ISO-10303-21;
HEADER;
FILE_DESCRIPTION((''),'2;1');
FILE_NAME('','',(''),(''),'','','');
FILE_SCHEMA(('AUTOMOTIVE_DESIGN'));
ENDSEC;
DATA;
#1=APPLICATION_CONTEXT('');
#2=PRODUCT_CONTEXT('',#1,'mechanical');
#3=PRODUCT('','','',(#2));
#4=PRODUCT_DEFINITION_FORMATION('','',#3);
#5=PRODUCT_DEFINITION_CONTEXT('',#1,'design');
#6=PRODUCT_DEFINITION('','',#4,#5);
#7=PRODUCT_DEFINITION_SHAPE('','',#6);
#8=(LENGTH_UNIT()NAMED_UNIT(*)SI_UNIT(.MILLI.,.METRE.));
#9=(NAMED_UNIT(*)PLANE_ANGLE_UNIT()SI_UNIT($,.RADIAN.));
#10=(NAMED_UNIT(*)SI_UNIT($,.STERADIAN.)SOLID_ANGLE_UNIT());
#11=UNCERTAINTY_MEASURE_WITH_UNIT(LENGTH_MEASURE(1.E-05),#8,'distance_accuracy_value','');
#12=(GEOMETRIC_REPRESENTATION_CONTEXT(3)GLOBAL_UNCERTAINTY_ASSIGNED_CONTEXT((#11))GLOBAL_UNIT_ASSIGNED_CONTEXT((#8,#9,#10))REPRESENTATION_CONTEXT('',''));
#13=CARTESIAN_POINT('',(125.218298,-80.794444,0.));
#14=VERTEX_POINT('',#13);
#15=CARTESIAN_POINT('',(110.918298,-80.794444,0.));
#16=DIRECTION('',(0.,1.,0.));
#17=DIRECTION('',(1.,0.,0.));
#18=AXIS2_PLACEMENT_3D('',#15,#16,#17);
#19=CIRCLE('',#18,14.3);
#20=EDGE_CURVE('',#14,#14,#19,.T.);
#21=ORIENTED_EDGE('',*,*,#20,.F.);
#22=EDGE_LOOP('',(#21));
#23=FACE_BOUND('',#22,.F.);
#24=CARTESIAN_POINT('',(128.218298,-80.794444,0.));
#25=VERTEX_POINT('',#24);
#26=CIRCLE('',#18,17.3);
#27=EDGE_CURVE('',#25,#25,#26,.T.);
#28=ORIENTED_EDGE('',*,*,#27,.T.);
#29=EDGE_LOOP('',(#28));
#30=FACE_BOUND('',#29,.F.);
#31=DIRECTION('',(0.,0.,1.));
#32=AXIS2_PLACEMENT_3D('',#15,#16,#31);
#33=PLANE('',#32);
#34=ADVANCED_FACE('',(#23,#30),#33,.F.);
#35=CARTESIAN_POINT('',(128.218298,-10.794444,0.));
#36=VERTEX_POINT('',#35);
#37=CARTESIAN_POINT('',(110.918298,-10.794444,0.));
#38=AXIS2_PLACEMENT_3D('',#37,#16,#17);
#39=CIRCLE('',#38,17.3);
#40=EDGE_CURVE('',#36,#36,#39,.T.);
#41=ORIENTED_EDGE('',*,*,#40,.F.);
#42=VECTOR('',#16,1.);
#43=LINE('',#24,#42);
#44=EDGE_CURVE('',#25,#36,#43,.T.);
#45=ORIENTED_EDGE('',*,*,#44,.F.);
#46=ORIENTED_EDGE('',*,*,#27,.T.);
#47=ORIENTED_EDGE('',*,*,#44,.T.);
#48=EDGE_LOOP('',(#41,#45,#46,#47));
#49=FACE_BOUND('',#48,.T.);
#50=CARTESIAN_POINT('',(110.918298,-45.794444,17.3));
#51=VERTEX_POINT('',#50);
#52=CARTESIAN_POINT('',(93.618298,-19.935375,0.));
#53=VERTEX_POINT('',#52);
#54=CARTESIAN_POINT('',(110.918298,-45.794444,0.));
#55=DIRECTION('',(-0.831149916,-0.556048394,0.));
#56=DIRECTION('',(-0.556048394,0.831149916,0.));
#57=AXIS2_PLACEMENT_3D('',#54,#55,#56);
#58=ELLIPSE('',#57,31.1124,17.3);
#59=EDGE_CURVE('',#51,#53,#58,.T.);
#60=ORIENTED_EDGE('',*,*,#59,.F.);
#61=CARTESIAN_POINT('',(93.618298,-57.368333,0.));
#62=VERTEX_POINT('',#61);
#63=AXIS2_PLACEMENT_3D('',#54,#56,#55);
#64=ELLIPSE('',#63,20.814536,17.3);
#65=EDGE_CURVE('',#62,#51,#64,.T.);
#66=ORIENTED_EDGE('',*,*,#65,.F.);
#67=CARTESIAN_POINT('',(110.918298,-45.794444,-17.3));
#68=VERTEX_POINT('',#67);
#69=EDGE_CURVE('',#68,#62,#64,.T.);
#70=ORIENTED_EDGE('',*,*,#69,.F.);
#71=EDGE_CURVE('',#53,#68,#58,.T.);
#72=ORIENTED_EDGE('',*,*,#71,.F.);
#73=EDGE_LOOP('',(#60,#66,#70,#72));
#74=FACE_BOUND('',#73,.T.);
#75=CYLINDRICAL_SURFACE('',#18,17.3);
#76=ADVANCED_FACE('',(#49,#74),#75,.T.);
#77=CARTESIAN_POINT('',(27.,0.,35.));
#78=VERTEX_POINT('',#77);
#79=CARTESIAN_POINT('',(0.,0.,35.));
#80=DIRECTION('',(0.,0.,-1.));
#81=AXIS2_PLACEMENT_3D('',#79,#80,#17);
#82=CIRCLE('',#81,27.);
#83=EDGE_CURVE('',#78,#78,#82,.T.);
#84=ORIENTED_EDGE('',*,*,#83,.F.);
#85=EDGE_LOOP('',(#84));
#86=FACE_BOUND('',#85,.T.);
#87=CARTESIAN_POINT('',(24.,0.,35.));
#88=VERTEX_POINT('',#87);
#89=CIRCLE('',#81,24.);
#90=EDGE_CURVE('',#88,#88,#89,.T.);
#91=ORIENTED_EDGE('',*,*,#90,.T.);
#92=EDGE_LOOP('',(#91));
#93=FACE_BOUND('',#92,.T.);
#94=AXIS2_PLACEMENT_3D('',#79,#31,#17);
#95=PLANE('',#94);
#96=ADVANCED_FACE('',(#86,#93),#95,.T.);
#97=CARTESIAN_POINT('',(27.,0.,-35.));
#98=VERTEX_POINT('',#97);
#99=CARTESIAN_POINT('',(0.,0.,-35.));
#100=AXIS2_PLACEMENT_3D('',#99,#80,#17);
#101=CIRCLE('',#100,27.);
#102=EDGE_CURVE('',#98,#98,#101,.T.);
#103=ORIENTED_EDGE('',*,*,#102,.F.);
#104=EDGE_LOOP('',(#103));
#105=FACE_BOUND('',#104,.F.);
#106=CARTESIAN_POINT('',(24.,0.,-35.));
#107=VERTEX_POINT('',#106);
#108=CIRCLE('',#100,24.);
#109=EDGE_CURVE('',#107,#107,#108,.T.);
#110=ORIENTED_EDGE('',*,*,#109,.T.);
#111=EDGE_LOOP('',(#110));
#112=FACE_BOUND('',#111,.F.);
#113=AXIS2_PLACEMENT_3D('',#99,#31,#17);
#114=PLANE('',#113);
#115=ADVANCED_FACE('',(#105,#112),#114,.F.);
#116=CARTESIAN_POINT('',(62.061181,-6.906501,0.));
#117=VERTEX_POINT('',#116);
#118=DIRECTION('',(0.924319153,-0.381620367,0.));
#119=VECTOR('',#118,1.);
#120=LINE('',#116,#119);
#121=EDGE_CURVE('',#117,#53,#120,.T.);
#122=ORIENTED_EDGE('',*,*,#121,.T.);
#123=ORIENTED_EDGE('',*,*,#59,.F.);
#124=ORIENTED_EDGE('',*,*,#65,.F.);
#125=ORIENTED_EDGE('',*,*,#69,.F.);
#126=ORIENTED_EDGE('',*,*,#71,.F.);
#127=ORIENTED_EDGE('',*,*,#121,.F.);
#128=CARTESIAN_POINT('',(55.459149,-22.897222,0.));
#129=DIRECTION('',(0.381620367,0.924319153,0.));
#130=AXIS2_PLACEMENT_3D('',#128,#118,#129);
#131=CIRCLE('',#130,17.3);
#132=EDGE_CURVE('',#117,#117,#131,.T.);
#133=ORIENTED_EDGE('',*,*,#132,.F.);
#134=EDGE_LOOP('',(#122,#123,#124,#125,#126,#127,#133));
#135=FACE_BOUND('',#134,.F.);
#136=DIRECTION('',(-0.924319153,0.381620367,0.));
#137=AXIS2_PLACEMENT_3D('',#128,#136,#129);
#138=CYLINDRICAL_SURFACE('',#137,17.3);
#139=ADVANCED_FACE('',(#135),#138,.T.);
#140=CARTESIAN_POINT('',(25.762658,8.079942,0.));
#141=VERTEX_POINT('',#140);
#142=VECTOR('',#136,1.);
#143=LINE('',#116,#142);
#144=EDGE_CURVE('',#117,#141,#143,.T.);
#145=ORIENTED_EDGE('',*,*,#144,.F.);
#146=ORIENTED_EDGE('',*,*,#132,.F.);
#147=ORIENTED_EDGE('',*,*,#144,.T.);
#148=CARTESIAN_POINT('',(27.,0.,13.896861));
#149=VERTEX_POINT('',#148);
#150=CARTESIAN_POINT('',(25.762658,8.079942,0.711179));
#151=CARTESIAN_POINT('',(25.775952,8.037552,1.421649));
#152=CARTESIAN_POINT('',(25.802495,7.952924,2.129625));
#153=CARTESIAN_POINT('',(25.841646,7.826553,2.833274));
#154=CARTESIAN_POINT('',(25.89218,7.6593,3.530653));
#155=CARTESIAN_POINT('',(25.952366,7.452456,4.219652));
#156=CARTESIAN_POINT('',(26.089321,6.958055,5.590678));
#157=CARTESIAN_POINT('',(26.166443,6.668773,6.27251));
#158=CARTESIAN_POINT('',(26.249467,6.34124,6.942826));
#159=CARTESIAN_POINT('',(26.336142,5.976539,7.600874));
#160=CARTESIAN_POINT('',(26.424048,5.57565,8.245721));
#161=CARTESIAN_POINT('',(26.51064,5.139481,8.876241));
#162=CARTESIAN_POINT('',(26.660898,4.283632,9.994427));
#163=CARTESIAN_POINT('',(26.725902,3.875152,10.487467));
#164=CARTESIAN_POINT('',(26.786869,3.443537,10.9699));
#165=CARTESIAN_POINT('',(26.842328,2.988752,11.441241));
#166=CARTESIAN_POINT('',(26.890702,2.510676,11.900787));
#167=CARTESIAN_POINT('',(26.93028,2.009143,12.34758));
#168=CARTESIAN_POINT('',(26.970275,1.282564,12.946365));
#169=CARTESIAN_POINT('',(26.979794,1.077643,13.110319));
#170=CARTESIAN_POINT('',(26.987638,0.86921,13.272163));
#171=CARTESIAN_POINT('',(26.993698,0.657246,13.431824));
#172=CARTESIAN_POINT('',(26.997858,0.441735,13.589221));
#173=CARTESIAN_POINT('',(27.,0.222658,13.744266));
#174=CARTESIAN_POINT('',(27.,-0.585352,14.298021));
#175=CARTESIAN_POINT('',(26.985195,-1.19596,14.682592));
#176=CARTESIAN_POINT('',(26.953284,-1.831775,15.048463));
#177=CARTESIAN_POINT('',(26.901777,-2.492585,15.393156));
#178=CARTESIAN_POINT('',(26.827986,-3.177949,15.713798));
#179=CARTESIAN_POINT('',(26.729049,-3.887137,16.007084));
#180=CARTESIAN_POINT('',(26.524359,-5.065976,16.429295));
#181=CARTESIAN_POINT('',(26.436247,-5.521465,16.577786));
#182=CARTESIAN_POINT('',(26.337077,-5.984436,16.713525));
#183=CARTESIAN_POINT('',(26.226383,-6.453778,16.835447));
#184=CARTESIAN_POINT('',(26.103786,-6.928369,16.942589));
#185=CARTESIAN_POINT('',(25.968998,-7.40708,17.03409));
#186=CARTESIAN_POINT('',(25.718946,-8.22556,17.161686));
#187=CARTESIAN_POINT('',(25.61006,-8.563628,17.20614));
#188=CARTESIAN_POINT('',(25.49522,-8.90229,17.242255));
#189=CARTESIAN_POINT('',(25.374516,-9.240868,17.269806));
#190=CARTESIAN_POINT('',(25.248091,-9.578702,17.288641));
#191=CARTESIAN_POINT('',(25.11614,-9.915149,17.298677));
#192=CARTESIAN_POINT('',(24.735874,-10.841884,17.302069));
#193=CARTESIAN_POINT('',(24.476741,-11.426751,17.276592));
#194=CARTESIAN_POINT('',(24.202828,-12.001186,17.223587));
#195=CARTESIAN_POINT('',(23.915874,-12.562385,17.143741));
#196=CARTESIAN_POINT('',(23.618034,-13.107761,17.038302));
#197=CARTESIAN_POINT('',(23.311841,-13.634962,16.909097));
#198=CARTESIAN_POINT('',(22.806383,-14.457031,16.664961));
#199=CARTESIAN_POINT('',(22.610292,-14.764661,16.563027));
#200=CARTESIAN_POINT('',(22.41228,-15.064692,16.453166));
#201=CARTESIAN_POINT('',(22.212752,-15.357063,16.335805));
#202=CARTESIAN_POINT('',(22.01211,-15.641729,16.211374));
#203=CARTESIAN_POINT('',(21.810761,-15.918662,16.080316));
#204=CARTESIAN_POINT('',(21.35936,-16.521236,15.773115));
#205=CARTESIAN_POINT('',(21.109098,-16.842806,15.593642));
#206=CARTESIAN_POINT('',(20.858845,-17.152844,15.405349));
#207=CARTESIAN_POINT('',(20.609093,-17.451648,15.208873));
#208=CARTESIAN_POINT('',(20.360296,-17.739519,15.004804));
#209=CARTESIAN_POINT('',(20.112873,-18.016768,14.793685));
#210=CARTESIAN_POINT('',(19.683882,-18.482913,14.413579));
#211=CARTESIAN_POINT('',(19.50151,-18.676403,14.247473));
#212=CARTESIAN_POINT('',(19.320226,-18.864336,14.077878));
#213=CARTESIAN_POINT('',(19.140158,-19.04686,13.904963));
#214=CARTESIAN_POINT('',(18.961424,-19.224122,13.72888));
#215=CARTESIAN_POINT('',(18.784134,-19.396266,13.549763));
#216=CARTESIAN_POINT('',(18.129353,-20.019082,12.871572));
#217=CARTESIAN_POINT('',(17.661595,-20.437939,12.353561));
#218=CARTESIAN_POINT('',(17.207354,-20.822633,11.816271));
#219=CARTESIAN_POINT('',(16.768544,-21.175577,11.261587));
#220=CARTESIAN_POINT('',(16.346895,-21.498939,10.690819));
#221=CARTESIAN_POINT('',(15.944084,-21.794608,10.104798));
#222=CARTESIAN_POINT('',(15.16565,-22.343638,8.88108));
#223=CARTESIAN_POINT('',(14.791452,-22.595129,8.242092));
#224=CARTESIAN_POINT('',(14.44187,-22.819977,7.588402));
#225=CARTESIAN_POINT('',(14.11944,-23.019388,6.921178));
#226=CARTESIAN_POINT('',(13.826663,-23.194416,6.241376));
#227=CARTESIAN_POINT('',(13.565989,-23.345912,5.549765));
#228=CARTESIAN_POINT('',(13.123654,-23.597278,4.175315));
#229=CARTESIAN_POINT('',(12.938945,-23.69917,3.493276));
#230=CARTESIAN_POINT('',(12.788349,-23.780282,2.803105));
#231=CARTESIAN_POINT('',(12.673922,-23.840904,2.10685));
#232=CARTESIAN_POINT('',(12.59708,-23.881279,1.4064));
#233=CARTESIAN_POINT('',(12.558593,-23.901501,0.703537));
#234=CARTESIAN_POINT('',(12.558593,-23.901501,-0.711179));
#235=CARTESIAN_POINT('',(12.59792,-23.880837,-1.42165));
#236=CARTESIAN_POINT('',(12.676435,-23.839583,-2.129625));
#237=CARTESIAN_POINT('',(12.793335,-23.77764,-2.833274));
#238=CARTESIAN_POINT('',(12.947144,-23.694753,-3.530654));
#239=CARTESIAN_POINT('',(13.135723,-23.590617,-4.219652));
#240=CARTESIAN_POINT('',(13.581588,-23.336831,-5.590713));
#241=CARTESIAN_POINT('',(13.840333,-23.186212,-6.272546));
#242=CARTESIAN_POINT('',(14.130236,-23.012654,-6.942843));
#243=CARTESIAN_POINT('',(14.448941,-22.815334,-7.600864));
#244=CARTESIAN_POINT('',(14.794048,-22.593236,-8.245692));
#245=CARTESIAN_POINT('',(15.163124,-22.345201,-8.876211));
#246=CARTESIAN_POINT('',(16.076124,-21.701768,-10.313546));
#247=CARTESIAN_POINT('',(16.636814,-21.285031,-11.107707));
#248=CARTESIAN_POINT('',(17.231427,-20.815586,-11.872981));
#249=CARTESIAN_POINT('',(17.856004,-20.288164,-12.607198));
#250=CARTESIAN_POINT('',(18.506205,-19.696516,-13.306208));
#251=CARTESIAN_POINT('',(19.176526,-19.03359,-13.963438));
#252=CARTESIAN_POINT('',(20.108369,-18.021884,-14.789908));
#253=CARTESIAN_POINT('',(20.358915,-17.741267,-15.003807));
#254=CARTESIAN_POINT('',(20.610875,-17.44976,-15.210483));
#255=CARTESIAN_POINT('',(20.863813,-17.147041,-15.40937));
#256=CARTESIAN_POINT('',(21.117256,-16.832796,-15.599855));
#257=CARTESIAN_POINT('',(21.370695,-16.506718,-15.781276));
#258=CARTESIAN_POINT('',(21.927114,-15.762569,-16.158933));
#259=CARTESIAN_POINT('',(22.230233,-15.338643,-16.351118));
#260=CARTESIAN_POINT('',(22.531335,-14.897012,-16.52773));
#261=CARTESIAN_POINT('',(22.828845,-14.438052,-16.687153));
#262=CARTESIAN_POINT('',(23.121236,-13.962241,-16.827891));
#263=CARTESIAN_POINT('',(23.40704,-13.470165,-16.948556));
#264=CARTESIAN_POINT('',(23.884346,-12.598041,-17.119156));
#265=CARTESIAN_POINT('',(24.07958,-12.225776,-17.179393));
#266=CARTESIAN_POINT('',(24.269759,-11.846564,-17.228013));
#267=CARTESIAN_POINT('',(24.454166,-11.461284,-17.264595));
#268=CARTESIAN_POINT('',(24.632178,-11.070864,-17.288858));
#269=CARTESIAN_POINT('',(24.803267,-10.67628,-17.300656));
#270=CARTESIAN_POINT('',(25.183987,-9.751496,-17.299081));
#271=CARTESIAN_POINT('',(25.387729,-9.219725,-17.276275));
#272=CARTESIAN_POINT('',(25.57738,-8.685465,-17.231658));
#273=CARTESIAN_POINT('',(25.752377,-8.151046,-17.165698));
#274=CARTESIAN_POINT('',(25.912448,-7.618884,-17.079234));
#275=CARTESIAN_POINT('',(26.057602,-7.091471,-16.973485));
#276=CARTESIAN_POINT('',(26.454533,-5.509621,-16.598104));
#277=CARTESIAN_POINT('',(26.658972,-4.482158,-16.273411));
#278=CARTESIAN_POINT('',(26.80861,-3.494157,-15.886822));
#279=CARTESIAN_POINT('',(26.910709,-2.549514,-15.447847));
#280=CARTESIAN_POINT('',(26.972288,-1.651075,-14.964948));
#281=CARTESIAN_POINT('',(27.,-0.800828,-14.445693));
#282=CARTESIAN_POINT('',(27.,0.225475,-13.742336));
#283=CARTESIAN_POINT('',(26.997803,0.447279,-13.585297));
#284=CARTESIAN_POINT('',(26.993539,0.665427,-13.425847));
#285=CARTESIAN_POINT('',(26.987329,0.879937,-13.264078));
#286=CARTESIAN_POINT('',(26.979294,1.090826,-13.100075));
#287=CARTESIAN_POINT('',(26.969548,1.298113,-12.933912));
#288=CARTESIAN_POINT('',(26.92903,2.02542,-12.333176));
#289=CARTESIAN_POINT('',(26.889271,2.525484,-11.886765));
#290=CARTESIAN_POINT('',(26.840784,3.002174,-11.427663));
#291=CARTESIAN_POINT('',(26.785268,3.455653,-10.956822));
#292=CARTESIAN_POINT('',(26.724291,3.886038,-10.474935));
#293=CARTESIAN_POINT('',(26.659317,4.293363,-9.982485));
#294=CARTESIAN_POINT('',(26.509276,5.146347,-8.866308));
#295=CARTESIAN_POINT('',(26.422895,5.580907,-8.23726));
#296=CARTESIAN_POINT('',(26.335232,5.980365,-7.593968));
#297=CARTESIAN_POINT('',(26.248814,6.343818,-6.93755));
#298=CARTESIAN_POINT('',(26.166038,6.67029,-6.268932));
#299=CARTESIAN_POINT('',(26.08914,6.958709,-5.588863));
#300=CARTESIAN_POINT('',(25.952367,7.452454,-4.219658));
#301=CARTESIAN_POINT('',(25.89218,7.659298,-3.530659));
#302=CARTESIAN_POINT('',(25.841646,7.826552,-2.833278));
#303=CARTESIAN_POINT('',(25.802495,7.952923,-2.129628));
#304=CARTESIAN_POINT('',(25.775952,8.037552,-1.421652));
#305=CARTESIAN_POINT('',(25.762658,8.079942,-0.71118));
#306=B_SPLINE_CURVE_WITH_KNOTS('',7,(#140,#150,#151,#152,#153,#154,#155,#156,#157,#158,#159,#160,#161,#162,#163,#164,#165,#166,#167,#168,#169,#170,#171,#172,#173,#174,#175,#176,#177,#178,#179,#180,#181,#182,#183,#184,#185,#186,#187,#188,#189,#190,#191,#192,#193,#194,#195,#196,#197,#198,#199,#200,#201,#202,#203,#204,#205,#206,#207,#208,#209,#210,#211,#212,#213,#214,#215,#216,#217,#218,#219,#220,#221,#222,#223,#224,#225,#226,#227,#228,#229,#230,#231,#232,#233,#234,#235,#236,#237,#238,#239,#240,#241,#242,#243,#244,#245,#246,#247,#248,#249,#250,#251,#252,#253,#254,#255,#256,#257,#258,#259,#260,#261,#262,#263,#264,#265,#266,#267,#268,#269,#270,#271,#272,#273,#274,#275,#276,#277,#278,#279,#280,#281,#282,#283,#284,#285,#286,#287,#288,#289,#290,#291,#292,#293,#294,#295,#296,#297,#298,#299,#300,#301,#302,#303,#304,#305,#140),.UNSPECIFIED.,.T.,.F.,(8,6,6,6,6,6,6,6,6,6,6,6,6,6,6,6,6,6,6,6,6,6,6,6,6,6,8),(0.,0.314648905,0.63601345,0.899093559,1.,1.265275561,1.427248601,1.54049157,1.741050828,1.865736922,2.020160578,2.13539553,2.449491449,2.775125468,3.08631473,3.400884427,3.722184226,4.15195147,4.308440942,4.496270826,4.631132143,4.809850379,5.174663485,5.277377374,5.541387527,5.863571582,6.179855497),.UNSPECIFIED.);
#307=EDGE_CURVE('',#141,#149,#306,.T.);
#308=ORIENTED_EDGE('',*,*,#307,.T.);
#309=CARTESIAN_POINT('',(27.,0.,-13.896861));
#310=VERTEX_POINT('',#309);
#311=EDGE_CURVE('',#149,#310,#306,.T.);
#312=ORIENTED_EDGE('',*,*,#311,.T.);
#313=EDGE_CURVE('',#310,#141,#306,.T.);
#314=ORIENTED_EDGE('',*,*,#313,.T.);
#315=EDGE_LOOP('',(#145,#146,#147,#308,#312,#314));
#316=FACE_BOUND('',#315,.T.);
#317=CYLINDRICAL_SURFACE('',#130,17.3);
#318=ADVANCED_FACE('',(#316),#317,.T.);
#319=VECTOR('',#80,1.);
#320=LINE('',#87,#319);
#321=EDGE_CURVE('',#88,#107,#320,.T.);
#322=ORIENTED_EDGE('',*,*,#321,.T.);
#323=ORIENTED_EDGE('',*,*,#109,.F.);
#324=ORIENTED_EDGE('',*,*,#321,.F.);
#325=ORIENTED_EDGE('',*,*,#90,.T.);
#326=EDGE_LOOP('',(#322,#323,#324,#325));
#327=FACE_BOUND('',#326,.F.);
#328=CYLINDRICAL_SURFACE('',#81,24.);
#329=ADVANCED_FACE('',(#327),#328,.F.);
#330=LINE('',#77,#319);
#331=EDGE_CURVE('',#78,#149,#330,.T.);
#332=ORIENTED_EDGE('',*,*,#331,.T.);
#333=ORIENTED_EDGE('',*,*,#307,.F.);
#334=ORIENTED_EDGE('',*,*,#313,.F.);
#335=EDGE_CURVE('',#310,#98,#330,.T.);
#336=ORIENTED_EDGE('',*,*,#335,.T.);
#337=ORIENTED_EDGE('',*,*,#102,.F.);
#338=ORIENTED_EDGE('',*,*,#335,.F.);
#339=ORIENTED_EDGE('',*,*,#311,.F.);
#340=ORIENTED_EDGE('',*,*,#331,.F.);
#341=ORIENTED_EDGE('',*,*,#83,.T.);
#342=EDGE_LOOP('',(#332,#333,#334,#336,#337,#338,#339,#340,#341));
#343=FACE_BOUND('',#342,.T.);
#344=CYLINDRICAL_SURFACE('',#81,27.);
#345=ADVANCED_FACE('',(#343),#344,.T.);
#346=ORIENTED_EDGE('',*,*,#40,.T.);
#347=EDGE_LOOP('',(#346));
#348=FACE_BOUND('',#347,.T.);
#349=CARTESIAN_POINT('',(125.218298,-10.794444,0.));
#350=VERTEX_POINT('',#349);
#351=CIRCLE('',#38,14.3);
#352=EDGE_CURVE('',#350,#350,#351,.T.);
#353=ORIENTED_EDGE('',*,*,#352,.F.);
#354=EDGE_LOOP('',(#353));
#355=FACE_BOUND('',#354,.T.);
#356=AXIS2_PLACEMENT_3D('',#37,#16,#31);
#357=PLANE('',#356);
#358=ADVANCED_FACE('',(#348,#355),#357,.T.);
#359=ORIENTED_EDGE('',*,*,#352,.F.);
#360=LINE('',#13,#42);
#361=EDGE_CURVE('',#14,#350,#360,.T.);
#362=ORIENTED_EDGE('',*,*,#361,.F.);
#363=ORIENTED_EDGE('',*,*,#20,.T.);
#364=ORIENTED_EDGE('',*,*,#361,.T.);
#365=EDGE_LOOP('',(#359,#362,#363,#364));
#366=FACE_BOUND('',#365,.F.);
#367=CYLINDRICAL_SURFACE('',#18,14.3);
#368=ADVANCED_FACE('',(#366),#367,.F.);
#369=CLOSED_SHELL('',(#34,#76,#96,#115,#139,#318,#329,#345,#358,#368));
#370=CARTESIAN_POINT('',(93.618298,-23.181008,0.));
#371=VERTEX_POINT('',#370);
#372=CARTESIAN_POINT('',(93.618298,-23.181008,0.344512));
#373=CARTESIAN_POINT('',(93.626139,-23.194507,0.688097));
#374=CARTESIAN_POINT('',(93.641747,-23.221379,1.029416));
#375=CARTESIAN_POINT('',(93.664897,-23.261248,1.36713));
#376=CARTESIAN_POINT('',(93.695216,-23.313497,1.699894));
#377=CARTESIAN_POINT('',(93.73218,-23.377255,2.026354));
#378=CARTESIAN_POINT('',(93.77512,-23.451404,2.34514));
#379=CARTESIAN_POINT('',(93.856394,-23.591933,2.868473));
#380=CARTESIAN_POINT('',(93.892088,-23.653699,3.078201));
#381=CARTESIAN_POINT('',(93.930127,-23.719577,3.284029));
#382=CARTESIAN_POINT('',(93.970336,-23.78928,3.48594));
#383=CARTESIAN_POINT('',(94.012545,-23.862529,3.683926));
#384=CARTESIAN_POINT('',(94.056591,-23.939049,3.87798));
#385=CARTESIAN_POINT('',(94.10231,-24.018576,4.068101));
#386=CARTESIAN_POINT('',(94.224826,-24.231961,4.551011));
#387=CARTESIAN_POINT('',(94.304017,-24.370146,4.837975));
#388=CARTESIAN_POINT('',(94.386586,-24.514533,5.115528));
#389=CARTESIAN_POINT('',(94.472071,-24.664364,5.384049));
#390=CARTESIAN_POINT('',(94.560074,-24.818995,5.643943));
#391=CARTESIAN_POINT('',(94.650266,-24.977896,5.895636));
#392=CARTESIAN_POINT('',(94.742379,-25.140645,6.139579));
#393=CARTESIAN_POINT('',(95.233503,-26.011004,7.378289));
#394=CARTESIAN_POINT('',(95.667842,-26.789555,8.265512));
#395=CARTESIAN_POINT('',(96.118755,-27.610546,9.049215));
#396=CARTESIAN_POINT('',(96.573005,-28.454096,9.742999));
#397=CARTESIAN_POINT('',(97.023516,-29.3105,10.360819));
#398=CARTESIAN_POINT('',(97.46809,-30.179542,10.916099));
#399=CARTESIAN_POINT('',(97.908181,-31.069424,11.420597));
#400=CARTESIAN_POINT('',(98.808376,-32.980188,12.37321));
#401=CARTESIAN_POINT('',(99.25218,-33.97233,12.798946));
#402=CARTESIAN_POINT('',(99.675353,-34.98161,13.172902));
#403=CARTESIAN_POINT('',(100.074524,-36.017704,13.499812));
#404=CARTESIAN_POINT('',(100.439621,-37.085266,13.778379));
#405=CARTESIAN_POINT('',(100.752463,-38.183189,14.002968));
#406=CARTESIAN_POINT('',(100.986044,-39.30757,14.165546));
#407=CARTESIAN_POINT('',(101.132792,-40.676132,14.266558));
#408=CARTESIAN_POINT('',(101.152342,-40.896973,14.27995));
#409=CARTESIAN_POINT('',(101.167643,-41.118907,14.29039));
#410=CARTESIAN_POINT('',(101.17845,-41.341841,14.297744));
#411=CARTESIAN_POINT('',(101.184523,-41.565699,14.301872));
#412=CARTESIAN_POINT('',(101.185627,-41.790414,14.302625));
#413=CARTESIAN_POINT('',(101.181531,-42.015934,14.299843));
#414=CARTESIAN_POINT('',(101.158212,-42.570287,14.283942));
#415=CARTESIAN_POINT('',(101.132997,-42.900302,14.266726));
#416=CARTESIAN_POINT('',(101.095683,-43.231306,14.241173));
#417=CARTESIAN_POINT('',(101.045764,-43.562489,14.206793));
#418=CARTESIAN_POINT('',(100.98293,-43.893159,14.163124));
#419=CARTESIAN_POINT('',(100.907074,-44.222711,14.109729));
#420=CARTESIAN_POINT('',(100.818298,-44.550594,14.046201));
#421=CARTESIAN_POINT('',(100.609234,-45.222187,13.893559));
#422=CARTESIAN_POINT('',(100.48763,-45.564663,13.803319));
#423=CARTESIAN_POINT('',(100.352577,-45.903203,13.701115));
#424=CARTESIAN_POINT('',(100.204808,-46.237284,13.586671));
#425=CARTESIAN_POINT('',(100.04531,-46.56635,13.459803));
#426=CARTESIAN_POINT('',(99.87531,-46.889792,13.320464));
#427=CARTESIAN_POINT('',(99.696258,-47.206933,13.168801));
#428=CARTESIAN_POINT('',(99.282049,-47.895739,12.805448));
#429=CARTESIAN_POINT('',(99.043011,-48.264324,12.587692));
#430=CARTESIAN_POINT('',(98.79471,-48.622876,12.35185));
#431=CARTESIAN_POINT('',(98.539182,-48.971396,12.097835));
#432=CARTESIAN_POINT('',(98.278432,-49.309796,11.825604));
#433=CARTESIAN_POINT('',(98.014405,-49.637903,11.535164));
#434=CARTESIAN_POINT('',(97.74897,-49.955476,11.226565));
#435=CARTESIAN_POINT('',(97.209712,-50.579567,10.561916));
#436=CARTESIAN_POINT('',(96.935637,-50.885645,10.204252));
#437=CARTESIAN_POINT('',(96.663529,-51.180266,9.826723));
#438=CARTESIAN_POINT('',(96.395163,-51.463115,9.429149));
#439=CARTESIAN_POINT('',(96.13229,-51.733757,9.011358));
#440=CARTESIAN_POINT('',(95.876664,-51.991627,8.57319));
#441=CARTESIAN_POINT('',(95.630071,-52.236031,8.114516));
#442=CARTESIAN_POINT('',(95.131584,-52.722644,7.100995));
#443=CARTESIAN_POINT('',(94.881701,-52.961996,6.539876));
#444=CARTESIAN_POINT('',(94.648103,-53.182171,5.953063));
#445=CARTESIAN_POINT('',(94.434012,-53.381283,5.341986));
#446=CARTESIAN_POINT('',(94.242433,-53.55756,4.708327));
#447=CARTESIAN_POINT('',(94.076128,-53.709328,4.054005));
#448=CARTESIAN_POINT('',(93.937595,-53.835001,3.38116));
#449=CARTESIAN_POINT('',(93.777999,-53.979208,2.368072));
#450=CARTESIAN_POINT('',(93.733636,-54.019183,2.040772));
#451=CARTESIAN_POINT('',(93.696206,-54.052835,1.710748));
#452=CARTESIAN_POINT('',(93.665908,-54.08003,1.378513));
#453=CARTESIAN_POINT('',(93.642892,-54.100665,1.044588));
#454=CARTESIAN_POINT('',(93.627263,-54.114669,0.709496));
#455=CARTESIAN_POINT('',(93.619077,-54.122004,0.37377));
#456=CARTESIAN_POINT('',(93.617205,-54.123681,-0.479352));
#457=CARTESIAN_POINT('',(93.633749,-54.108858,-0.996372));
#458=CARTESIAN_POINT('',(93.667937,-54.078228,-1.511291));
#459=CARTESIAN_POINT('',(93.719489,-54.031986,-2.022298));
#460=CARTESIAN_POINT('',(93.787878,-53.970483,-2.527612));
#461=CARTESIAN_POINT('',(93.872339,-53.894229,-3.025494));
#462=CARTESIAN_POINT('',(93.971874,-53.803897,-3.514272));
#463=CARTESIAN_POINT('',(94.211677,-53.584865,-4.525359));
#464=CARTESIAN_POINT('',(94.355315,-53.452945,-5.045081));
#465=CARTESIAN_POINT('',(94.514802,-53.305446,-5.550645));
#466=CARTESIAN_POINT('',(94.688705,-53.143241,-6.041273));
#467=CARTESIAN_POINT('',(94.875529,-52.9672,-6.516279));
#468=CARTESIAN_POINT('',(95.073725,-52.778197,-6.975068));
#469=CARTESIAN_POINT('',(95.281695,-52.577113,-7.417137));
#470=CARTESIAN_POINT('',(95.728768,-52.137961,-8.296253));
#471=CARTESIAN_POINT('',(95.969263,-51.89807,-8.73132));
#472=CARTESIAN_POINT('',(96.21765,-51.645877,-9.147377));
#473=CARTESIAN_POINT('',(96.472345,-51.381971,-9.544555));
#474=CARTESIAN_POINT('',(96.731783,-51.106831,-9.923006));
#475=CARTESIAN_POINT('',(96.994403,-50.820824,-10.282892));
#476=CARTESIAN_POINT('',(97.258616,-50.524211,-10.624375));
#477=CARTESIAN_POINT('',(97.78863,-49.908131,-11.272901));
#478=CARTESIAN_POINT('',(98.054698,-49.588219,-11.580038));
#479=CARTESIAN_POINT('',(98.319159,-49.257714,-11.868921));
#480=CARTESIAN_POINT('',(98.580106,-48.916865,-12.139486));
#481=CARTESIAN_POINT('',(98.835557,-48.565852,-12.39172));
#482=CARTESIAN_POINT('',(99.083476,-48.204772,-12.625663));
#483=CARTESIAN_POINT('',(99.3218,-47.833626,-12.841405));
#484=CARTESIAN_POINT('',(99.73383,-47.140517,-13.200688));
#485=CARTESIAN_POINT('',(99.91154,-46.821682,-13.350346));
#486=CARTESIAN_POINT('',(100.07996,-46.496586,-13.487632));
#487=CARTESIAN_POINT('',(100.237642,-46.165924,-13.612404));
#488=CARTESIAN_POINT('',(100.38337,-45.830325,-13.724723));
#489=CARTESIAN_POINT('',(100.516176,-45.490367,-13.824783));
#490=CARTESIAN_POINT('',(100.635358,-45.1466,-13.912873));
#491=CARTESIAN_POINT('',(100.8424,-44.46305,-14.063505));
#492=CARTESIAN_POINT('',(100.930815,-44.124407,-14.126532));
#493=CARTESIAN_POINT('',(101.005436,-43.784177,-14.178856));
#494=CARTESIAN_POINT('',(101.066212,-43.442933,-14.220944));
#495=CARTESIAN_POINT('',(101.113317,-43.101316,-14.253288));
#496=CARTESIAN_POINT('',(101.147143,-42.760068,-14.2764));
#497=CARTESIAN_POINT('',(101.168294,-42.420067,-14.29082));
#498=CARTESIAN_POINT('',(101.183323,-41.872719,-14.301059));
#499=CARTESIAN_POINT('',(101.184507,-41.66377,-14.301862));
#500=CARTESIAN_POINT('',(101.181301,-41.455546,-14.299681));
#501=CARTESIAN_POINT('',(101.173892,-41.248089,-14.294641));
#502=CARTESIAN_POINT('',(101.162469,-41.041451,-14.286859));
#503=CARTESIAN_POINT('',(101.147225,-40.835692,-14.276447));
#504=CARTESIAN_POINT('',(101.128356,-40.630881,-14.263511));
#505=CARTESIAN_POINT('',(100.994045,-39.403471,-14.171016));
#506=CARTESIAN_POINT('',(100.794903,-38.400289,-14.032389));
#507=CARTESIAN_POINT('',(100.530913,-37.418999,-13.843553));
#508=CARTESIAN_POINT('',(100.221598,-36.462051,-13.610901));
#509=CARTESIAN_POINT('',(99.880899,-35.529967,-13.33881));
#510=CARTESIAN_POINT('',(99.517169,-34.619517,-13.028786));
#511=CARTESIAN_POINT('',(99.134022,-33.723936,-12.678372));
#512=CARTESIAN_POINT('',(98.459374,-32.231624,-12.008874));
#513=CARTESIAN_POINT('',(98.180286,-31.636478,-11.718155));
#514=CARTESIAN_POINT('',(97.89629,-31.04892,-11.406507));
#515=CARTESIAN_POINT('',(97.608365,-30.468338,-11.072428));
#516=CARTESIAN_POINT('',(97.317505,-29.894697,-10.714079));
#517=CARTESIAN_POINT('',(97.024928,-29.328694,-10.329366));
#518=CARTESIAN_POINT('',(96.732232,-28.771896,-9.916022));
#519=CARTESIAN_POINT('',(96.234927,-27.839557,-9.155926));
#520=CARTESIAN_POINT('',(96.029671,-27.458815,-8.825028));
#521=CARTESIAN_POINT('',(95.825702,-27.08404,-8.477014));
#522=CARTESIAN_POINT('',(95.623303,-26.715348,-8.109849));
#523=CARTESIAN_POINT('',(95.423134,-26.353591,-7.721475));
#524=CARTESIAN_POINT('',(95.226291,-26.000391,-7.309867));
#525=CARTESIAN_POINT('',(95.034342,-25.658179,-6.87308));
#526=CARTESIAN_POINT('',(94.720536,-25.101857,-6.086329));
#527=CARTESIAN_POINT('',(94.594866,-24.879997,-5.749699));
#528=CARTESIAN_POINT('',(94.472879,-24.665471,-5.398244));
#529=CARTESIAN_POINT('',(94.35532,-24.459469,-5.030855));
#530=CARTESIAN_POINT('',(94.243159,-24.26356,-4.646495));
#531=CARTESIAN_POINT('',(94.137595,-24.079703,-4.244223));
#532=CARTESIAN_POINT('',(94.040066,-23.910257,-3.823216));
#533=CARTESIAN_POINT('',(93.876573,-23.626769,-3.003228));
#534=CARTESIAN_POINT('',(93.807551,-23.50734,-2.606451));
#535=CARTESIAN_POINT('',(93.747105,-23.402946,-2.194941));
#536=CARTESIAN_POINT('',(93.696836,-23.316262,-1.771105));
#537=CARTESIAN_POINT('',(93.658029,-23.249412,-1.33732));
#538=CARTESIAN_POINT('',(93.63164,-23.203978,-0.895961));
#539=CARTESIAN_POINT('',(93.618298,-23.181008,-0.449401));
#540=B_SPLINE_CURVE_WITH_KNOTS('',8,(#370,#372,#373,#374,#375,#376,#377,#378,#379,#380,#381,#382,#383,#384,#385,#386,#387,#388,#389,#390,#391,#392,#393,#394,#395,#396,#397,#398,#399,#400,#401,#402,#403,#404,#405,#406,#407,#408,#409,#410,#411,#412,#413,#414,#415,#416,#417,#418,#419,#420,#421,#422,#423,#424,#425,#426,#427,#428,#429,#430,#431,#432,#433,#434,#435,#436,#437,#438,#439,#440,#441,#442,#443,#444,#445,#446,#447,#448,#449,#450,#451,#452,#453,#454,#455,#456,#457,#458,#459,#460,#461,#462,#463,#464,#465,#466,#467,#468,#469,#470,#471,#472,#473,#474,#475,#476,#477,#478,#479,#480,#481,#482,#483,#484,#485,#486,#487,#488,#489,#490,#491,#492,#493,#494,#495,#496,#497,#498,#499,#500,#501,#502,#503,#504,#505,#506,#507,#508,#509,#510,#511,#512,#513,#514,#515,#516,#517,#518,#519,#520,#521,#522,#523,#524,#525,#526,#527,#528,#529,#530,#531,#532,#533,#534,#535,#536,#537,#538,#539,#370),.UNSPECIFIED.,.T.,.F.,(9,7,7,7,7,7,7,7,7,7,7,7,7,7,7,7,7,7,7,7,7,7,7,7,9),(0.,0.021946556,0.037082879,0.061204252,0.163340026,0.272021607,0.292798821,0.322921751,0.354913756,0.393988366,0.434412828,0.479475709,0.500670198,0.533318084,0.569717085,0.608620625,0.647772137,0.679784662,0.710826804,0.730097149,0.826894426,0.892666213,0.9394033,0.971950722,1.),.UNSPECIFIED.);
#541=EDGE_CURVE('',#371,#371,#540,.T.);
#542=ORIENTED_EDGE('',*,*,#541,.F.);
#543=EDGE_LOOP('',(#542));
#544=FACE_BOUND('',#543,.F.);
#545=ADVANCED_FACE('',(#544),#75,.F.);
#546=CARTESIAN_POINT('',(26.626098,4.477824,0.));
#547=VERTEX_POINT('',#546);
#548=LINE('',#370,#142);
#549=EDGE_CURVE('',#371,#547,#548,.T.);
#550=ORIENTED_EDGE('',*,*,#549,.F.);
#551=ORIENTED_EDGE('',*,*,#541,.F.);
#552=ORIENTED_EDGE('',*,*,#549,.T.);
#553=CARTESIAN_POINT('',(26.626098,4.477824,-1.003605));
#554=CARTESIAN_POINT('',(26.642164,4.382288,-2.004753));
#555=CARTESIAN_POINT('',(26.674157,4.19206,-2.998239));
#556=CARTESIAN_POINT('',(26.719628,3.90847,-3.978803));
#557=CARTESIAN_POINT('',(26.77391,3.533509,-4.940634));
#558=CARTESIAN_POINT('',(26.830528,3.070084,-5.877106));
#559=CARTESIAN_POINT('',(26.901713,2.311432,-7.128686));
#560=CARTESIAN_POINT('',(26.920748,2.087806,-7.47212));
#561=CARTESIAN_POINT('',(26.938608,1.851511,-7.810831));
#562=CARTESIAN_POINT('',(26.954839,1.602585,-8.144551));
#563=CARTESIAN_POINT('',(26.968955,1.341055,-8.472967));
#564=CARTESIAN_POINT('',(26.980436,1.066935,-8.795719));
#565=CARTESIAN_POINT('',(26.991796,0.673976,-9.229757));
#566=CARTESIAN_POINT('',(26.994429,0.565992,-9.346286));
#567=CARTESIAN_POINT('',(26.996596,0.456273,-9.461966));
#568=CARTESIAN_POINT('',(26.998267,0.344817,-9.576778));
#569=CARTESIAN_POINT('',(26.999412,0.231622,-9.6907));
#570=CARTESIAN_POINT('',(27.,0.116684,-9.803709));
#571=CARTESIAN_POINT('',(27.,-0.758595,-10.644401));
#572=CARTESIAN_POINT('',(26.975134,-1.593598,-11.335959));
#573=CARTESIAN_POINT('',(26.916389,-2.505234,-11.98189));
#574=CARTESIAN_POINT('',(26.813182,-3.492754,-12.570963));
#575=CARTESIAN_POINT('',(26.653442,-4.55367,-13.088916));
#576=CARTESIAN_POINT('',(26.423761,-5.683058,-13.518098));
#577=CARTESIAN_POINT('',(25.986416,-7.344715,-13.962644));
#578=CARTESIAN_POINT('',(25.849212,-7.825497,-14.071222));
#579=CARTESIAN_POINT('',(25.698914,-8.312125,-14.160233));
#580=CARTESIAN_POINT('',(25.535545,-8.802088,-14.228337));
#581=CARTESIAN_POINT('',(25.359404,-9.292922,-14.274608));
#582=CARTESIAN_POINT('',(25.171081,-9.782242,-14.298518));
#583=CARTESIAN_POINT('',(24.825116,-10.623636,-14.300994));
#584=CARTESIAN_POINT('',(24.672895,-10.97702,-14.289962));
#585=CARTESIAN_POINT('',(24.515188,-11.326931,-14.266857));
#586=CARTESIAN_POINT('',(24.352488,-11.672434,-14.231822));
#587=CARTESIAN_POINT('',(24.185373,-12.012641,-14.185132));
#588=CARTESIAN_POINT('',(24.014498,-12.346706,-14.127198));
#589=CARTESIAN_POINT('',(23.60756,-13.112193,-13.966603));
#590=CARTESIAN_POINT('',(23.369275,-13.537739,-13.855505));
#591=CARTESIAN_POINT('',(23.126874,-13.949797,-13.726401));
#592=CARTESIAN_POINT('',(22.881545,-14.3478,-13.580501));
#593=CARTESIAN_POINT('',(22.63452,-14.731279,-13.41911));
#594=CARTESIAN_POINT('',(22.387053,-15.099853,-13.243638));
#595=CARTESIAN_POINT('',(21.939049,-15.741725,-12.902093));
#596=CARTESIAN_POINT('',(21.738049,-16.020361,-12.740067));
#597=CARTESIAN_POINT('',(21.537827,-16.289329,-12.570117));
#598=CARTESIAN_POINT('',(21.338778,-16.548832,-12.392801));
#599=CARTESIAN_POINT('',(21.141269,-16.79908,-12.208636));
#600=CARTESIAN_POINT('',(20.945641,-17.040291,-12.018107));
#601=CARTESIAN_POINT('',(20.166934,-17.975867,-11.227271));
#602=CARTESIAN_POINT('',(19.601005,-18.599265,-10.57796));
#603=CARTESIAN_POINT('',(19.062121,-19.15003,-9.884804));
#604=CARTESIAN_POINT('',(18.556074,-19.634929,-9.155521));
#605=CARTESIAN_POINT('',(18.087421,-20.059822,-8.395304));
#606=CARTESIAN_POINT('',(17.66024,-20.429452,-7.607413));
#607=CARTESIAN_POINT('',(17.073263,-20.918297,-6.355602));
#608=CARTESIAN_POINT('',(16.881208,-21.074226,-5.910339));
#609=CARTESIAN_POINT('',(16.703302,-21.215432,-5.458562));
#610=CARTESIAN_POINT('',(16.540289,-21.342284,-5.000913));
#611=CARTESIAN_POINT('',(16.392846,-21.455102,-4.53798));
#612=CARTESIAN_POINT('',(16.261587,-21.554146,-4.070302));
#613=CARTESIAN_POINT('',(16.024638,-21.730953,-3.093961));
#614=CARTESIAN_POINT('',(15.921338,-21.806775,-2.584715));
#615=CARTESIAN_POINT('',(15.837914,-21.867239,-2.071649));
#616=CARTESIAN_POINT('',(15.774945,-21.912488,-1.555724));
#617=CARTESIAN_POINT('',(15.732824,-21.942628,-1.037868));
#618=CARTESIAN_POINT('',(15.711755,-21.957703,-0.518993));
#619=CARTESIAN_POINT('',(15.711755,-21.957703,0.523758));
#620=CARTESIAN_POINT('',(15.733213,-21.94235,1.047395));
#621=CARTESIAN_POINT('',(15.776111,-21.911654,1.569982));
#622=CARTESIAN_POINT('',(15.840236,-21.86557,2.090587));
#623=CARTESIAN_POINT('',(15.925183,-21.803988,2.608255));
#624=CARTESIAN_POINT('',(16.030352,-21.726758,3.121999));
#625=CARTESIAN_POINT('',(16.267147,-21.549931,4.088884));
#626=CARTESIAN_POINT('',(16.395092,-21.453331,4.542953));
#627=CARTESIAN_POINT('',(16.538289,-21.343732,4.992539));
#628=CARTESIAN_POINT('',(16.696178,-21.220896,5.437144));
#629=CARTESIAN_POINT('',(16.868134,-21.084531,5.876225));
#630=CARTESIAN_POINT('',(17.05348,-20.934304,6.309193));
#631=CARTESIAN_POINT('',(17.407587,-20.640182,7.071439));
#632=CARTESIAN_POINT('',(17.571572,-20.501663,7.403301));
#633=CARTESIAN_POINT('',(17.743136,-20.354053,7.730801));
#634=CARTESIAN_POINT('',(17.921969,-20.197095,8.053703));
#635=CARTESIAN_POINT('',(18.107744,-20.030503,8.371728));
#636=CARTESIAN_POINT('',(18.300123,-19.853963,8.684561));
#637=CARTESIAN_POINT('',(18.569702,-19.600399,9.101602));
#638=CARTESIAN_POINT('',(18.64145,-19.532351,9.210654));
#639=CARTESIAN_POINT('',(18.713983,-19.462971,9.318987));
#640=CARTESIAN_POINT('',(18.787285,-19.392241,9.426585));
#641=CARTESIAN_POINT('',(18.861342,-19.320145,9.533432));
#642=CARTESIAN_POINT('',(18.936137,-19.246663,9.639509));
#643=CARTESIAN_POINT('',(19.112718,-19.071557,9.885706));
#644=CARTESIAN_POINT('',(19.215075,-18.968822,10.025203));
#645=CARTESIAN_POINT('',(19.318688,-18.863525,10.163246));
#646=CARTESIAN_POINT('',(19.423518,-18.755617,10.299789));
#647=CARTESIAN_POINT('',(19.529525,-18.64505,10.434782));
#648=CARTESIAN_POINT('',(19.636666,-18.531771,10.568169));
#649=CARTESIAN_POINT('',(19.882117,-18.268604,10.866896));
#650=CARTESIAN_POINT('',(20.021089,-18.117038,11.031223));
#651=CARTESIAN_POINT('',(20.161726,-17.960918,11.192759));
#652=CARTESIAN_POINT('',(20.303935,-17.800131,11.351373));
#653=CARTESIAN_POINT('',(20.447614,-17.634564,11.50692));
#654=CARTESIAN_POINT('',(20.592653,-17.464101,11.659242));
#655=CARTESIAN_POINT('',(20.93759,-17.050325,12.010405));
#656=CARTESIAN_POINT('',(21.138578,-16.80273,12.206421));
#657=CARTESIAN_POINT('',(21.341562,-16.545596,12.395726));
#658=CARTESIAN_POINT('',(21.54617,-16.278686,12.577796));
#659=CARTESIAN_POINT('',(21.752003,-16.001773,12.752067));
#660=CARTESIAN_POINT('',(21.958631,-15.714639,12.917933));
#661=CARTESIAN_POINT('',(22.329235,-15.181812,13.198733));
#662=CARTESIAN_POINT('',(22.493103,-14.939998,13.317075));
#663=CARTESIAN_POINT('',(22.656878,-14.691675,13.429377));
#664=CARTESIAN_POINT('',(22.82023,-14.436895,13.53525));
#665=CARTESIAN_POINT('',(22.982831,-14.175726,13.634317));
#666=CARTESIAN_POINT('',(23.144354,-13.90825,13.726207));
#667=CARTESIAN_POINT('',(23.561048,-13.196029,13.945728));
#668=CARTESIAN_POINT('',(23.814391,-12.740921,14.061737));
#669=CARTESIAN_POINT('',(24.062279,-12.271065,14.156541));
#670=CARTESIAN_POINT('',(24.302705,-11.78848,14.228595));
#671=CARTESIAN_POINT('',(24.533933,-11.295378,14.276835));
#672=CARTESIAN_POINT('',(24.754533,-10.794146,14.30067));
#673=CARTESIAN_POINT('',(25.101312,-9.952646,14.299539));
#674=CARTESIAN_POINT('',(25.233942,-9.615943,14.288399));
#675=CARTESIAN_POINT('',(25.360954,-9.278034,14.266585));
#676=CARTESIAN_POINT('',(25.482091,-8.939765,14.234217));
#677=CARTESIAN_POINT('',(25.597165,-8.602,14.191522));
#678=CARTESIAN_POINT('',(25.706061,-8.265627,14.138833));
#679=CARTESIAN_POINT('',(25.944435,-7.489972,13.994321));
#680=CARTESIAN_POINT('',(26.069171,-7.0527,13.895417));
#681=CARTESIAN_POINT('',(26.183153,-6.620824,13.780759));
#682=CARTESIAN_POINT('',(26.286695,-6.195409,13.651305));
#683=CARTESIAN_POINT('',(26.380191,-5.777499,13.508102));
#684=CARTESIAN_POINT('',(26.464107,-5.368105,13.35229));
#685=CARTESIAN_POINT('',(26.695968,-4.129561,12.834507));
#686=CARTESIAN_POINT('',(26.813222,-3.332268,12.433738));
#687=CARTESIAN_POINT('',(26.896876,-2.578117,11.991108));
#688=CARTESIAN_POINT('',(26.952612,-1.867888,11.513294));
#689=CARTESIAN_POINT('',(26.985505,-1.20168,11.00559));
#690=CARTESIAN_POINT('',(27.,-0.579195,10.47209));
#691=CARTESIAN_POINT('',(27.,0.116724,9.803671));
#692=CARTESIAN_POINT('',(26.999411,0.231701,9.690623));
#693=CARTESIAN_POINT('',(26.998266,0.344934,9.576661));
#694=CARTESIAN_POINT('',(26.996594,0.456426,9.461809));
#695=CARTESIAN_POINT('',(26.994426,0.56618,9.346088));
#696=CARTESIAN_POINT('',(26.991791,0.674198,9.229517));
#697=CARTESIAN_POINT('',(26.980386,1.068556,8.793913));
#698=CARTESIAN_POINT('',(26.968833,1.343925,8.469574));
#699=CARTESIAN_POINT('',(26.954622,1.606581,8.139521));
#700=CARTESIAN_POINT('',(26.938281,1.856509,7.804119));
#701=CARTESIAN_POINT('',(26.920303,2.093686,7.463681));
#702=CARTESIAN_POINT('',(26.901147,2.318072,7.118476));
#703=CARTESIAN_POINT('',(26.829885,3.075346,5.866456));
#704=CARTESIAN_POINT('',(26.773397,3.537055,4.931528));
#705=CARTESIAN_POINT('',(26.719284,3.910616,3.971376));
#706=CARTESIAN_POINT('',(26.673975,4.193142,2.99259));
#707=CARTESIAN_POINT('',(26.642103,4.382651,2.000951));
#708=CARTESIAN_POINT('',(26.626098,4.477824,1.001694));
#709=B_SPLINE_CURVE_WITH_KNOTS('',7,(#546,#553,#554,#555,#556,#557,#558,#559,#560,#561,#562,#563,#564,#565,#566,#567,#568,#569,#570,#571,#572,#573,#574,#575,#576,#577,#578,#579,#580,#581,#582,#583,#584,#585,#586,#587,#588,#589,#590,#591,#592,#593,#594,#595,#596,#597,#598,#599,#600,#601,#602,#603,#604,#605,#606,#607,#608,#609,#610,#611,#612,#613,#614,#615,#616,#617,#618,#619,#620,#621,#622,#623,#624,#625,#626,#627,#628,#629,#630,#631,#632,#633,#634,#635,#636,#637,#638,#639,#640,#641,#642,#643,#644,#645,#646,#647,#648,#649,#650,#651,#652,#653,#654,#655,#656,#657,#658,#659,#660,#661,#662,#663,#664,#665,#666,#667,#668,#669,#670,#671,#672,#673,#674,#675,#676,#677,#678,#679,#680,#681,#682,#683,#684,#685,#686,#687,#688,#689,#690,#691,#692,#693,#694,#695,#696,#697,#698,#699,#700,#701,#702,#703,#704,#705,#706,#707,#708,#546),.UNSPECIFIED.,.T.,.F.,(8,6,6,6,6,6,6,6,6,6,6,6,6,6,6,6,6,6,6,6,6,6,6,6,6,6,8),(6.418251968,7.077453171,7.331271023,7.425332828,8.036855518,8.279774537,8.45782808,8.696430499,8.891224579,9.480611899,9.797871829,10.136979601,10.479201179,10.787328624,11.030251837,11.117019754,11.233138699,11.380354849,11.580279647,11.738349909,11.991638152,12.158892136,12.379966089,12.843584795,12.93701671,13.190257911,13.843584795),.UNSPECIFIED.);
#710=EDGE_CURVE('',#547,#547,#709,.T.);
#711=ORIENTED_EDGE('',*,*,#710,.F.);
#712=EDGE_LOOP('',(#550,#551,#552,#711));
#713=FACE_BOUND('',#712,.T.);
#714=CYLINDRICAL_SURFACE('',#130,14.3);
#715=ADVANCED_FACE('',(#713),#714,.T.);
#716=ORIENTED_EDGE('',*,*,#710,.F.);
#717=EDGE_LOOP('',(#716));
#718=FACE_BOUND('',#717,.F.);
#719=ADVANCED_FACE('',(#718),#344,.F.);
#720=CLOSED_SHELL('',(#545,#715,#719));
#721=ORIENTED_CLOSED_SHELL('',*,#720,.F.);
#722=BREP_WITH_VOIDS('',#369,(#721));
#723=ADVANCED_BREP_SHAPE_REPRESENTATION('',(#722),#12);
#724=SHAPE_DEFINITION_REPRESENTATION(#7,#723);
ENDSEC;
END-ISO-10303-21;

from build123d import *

# Parameters (mm, degrees)
ESQUISSE1_R                         = 27
ESQUISSE1_R_2                       = 24
ESQUISSE5_R                         = 17.3
ESQUISSE5_R_2                       = 14.3
BOSS_EXTRU_1_REACH                  = 108.661
BOSS_EXTRU_1_END_RADIUS             = 17.3
ESQUISSE8_R                         = 17.3
ESQUISSE8_R_2                       = 14.3
BOSS_EXTRU_1_DIRECTION_2_REACH      = 108.661
BOSS_EXTRU_1_DIRECTION_2_END_RADIUS = 27


with BuildPart() as part:
    # Balayage1: sweep along a path in Esquisse2
    with BuildLine(Plane(origin=(0, 0, 0), x_dir=(0, 0, -1), z_dir=(1, 0, 0))) as balayage1_path:
        Line((-35, 0), (35, 0))
    # Esquisse1 → Balayage1 (sweep)
    with BuildSketch(Plane.XY):
        Circle(ESQUISSE1_R)
        Circle(ESQUISSE1_R_2, mode=Mode.SUBTRACT)
    sweep(path=balayage1_path.line)



with BuildPart() as body_2:
    # Balayage2: sweep along a path in Esquisse6
    with BuildLine(Plane.XY) as balayage2_path:
        Line((110.918298302, -80.794444006), (110.918298302, -10.794444006))
    # Esquisse5 → Balayage2 (sweep)
    with BuildSketch(Plane(origin=(0, -45.794444006, 0), x_dir=(1, 0, 0), z_dir=(0, 1, 0))):
        with Locations((110.918298302, 0)):
            Circle(ESQUISSE5_R)
        with Locations((110.918298302, 0)):
            Circle(ESQUISSE5_R_2, mode=Mode.SUBTRACT)
    sweep(path=balayage2_path.line)


with BuildPart() as part_1:
    add(part.part)

    add(body_2.part)  # Boss.-Extru.1 merges body 2
    # Boss.-Extru.1: up to this cylinder (the profile starts outside it)
    boss_extru_1_end = Plane(origin=(110.918298302, -38.435657, 0), z_dir=(0, -1, 0)) * Cylinder(BOSS_EXTRU_1_END_RADIUS, 252.922, mode=Mode.PRIVATE)
    # Esquisse8 → Boss.-Extru.1 (add, up to the surface)
    with BuildSketch(Plane(origin=(55.459149151, -22.897222003, 0), x_dir=(0, 0, -1), z_dir=(0.9243191525163077, -0.381620366714795, 0)), mode=Mode.PRIVATE) as boss_extru_1_sk1:
        with Locations(Location((0, 0, 0), (0, 0, 90))):
            Circle(ESQUISSE8_R)
        with Locations(Location((0, 0, 0), (0, 0, 90))):
            Circle(ESQUISSE8_R_2, mode=Mode.SUBTRACT)
    boss_extru_1_tool1 = extrude(boss_extru_1_sk1.sketch, amount=BOSS_EXTRU_1_REACH, mode=Mode.PRIVATE) - boss_extru_1_end
    add(boss_extru_1_tool1.solids().sort_by_distance((49.04385, -38.435657, 0))[0])

    # Boss.-Extru.1 direction 2: up to this cylinder (the profile starts outside it)
    boss_extru_1_direction_2_end = Plane(origin=(0, 0, 0), z_dir=(0, 0, 1)) * Cylinder(BOSS_EXTRU_1_DIRECTION_2_END_RADIUS, 272.322, mode=Mode.PRIVATE)
    # Esquisse8 → Boss.-Extru.1 direction 2 (add, up to the surface)
    with BuildSketch(Plane(origin=(55.459149151, -22.897222003, 0), x_dir=(0, 0, -1), z_dir=(0.9243191525163077, -0.381620366714795, 0)), mode=Mode.PRIVATE) as boss_extru_1_direction_2_sk1:
        with Locations(Location((0, 0, 0), (0, 0, 90))):
            Circle(ESQUISSE8_R)
        with Locations(Location((0, 0, 0), (0, 0, 90))):
            Circle(ESQUISSE8_R_2, mode=Mode.SUBTRACT)
    boss_extru_1_direction_2_tool1 = extrude(boss_extru_1_direction_2_sk1.sketch, amount=-BOSS_EXTRU_1_DIRECTION_2_REACH, mode=Mode.PRIVATE) - boss_extru_1_direction_2_end
    add(boss_extru_1_direction_2_tool1.solids().sort_by_distance((49.04385, -38.435657, 0))[0])


solid = part_1.part
